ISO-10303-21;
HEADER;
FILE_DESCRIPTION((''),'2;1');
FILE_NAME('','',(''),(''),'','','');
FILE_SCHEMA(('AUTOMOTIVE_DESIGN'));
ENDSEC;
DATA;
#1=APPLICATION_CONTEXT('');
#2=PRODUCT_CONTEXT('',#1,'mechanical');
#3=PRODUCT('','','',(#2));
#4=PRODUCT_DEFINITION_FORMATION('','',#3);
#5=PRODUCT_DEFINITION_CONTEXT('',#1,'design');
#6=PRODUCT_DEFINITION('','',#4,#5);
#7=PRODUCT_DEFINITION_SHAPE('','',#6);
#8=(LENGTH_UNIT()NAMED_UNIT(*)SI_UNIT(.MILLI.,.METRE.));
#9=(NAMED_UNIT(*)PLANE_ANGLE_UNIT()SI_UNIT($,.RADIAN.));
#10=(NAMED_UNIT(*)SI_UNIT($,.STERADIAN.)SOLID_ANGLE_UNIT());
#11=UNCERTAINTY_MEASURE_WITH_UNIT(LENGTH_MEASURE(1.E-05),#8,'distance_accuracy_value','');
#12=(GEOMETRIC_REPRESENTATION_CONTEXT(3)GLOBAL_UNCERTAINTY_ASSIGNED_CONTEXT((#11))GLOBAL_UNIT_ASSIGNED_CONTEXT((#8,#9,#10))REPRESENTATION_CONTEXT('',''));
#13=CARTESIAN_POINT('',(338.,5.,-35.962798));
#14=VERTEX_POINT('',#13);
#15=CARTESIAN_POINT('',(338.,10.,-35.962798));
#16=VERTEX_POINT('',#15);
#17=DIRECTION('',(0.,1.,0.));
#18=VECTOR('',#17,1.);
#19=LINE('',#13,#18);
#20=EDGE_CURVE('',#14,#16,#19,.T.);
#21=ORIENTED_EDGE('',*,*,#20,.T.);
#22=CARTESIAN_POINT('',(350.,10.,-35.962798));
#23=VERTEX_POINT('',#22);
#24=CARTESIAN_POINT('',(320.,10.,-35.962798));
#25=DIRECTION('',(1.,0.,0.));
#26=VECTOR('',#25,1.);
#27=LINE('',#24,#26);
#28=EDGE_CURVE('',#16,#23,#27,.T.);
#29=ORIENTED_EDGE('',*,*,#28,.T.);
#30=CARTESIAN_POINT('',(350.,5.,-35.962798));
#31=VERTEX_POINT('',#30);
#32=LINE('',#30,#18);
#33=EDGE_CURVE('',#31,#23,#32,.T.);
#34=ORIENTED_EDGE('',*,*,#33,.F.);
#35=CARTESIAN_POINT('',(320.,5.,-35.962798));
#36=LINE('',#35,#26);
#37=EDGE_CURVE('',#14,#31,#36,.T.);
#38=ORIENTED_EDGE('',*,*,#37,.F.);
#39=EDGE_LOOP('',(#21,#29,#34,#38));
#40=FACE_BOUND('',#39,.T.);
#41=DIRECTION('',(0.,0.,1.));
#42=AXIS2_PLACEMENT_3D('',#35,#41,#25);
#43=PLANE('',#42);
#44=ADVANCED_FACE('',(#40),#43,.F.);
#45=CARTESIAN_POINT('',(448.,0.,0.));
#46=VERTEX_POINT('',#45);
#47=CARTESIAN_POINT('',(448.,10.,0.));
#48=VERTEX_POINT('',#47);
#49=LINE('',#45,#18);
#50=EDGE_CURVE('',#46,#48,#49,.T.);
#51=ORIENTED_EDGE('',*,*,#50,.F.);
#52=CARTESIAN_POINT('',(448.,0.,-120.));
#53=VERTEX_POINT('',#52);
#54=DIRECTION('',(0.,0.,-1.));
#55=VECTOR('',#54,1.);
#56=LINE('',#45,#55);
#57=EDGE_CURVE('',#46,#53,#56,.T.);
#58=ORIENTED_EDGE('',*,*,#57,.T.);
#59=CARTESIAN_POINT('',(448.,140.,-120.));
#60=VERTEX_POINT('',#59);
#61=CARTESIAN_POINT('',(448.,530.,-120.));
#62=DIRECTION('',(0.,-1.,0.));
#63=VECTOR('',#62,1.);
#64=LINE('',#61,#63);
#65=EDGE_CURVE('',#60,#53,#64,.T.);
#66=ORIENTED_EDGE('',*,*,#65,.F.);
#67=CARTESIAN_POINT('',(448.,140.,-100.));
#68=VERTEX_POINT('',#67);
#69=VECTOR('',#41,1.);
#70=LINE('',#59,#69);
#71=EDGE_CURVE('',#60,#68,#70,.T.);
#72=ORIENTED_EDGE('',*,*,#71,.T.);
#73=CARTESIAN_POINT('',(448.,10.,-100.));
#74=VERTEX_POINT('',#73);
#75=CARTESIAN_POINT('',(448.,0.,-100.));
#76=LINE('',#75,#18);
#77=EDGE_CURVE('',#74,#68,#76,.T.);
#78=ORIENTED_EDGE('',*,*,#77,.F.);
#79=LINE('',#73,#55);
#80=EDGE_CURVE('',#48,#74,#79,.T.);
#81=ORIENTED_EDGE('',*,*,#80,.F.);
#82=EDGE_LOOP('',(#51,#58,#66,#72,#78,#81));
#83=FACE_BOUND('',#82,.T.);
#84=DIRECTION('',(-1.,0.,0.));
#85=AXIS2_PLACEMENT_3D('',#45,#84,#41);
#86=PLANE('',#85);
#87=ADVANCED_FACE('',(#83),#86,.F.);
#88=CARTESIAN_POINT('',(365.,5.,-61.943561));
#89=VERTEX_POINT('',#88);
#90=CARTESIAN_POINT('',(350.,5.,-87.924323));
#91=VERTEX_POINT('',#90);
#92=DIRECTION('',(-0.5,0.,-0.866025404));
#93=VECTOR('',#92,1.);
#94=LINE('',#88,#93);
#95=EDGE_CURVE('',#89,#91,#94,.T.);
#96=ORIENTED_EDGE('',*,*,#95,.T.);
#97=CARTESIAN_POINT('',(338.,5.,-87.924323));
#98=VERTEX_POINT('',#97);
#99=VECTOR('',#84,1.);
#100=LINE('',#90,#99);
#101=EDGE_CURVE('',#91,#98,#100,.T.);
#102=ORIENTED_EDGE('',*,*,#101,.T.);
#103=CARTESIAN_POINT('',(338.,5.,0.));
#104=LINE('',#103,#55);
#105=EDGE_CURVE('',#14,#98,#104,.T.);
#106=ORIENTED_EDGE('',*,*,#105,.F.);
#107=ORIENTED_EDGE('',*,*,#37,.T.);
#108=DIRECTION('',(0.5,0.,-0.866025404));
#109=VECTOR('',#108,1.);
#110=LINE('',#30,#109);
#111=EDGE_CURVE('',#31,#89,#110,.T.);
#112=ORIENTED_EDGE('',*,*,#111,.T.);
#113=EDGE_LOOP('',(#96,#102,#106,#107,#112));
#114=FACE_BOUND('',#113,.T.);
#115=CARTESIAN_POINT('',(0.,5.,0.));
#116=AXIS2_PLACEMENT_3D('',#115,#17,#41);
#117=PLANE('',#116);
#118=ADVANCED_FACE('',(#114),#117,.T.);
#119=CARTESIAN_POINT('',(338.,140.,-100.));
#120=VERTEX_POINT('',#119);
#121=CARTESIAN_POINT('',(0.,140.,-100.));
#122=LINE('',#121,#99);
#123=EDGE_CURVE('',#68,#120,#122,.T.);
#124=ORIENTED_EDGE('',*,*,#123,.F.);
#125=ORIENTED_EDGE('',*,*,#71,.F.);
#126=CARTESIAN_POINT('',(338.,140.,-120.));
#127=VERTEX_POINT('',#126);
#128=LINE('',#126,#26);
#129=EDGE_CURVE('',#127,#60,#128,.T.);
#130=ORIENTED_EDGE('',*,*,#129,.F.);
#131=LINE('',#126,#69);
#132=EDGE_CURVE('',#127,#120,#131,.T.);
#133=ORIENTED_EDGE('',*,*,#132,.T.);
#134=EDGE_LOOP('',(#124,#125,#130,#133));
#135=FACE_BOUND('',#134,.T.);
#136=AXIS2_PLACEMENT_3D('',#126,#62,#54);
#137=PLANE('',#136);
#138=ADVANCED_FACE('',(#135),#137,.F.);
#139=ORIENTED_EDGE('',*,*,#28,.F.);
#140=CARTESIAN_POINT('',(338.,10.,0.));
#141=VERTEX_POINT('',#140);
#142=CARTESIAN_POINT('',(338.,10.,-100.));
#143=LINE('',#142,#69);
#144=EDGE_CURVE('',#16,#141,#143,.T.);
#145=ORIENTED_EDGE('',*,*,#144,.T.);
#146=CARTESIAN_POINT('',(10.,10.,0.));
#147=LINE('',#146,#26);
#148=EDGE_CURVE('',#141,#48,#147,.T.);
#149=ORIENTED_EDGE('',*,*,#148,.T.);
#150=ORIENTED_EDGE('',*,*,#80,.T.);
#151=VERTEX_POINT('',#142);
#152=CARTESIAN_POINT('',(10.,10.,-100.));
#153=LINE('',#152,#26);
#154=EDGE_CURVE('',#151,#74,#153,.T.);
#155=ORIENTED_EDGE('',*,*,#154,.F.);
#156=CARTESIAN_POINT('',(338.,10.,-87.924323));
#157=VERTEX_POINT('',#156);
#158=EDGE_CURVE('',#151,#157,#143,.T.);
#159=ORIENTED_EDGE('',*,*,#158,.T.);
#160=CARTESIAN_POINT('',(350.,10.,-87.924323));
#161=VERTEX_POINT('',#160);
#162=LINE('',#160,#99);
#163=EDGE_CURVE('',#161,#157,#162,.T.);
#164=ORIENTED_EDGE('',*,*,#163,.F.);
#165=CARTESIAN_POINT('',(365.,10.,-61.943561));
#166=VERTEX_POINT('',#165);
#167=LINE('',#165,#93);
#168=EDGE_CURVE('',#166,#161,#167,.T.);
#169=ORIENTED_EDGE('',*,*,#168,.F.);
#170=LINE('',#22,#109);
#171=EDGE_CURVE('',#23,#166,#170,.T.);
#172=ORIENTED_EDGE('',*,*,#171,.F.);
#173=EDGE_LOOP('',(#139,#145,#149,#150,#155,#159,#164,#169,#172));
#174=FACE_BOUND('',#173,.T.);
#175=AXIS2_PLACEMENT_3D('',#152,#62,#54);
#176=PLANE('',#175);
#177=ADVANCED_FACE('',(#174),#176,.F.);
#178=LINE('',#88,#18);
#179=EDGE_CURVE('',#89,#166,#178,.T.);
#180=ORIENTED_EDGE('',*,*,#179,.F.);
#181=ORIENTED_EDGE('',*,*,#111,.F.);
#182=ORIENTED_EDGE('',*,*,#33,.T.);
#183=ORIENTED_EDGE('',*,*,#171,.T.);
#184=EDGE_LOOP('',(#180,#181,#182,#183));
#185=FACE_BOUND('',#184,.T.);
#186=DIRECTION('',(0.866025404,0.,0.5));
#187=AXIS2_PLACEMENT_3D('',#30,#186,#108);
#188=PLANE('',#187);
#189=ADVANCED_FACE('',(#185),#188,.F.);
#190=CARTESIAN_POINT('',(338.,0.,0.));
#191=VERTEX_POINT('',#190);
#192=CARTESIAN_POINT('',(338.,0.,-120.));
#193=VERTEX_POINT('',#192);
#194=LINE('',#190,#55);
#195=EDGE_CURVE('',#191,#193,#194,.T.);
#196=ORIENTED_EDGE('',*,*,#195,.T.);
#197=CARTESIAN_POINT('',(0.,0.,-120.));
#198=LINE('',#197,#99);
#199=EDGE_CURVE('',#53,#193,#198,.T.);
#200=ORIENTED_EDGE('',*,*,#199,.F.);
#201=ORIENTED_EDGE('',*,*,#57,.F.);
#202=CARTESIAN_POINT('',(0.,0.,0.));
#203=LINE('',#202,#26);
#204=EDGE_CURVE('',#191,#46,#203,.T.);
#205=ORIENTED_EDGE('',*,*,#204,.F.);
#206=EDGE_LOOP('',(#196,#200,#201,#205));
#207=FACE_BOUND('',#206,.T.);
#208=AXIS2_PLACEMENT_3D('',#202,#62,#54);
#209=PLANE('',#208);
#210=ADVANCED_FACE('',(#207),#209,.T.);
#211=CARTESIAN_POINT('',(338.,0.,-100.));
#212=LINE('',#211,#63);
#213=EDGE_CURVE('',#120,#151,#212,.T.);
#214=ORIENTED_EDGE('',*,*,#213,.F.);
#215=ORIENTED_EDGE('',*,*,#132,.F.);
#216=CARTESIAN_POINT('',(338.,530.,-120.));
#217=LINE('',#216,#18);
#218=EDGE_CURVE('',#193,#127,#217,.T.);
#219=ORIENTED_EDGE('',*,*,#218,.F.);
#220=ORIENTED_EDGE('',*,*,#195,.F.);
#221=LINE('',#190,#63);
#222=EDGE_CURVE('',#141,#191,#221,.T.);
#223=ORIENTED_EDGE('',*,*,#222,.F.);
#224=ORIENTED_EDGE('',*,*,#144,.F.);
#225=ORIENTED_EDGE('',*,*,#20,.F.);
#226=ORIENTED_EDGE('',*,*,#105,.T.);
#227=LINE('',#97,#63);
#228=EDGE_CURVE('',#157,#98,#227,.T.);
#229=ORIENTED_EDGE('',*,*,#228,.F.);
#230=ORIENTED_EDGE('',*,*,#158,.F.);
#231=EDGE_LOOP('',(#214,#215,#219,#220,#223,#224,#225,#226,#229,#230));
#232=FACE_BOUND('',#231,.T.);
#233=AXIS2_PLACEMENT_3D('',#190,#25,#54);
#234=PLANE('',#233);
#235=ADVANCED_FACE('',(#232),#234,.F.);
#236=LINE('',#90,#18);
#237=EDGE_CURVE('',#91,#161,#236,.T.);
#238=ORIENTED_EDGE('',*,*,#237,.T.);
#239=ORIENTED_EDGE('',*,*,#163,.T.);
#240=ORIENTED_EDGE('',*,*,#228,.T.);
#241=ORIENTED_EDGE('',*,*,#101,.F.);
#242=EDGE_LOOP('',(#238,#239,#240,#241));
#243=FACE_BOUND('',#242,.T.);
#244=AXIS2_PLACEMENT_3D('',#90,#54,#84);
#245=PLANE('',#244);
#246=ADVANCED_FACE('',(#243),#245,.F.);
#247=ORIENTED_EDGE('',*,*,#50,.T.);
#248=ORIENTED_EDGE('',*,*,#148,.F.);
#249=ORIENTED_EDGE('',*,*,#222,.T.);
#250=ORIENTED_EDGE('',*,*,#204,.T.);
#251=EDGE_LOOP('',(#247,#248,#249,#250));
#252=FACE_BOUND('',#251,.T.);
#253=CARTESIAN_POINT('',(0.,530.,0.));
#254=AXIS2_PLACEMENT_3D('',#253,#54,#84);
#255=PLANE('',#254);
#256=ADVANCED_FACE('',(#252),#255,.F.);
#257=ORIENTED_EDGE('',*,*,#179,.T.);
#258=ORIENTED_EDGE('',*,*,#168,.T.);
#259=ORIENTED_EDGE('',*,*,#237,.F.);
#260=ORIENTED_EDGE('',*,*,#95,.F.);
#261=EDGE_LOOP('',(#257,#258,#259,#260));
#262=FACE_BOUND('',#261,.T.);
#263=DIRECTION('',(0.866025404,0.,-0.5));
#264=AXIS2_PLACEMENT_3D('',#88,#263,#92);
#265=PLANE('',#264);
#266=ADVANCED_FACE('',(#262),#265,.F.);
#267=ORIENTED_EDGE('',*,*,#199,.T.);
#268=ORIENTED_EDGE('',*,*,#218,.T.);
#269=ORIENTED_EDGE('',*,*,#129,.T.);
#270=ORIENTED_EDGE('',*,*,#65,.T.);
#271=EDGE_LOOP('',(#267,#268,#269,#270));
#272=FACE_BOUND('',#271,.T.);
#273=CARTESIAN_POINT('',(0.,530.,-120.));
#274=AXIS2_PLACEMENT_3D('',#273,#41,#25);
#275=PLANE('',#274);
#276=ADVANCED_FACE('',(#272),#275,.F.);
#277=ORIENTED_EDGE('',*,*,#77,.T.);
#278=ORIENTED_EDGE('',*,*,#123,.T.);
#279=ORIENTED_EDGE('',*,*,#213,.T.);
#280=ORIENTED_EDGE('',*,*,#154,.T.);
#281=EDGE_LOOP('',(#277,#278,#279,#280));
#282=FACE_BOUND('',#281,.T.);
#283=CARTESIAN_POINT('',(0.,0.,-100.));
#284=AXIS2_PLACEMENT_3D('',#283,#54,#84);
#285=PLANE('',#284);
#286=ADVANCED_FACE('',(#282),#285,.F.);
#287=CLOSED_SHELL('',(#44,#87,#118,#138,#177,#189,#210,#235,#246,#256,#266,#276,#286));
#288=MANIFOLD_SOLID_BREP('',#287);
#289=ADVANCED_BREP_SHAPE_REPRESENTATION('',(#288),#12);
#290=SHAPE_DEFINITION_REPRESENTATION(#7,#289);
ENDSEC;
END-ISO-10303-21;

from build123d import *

# Parameters (mm, degrees)
SKETCH1_W                      = 670
SKETCH1_H                      = 120
BOSS_EXTRUDE1_DEPTH            = 530
SKETCH2_W                      = 100
SKETCH2_H                      = 200
SKETCH2_W_2                    = 650
SKETCH2_H_2                    = 250
CUT_EXTRUDE1_DEPTH             = 100
SKETCH3_R                      = 50
CUT_EXTRUDE2_DEPTH             = 260
F_12_0_12_DIAMETER_HOLE2_D     = 12
F_12_0_12_DIAMETER_HOLE2_DEPTH = 30
F_12_0_12_DIAMETER_HOLE2_TIP   = 3.605163714
SKETCH8_W                      = 650
SKETCH8_H                      = 50
BOSS_EXTRUDE2_DEPTH            = 5
SKETCH9_W                      = 10
SKETCH9_H                      = 250
CUT_EXTRUDE3_DEPTH             = 717
CUT_EXTRUDE4_DEPTH             = 5
SKETCH11_W                     = 10
SKETCH11_H                     = 100
BOSS_EXTRUDE3_DEPTH            = 78
BOSS_EXTRUDE3_2_DEPTH          = 78
BOSS_EXTRUDE3_3_DEPTH          = 78
SKETCH12_W                     = 20
SKETCH12_H                     = 30
CUT_EXTRUDE5_DEPTH             = 80
SKETCH15_W                     = 30
SKETCH15_H                     = 23.536156656
SKETCH15_H_2                   = 28.986603691
CUT_EXTRUDE7_DEPTH             = 35
SHELL1_T                       = -3
SKETCH16_W                     = 14
SKETCH16_H                     = 14
CUT_EXTRUDE8_DEPTH             = 35
SKETCH17_W                     = 5.729882812
SKETCH17_H                     = 17.428393554
SKETCH17_W_2                   = 13.369726562
SKETCH17_H_2                   = 3.342431641
BOSS_EXTRUDE4_DEPTH            = 5
CUT_EXTRUDE10_DEPTH            = 863.670273187
CUT_EXTRUDE10_DEPTH_BACK       = 863.670273187
SKETCH18_W                     = 670
SKETCH18_H                     = 250
CUT_EXTRUDE11_DEPTH            = 737.002717386
CUT_EXTRUDE11_DEPTH_BACK       = 737.002717386
SKETCH19_W                     = 222
SKETCH19_H                     = 280
SKETCH19_W_2                   = 338
CUT_EXTRUDE12_DEPTH            = 538.683922021
CUT_EXTRUDE12_DEPTH_BACK       = 538.683922021
SKETCH20_W                     = 110
SKETCH20_H                     = 140


with BuildPart() as part:
    # Sketch1 → Boss-Extrude1 (new body)
    with BuildSketch(Plane(origin=(0, 0, 0), x_dir=(1, 0, 0), z_dir=(0, 1, 0))):
        with Locations((335, 60)):
            Rectangle(SKETCH1_W, SKETCH1_H)
    extrude(amount=BOSS_EXTRUDE1_DEPTH)

    # Sketch2 → Cut-Extrude1 (cut)
    with BuildSketch(Plane.XY):
        with Locations((60, 380)):
            Rectangle(SKETCH2_W, SKETCH2_H)
        with Locations((170, 380)):
            Rectangle(SKETCH2_W, SKETCH2_H)
        with Locations((280, 380)):
            Rectangle(SKETCH2_W, SKETCH2_H)
        with Locations((390, 380)):
            Rectangle(SKETCH2_W, SKETCH2_H)
        with Locations((500, 380)):
            Rectangle(SKETCH2_W, SKETCH2_H)
        with Locations((610, 380)):
            Rectangle(SKETCH2_W, SKETCH2_H)
        with Locations((335, 135)):
            Rectangle(SKETCH2_W_2, SKETCH2_H_2)
    extrude(amount=-CUT_EXTRUDE1_DEPTH, mode=Mode.SUBTRACT)

    # Sketch3 → Cut-Extrude2 (cut)
    with BuildSketch(Plane(origin=(0, 530, 0), x_dir=(1, 0, 0), z_dir=(0, 1, 0))):
        with Locations((60, 60)):
            Circle(SKETCH3_R)
        with Locations((170, 60)):
            Circle(SKETCH3_R)
        with Locations((280, 60)):
            Circle(SKETCH3_R)
        with Locations((390, 60)):
            Circle(SKETCH3_R)
        with Locations((500, 60)):
            Circle(SKETCH3_R)
        with Locations((610, 60)):
            Circle(SKETCH3_R)
    extrude(amount=-CUT_EXTRUDE2_DEPTH, mode=Mode.SUBTRACT)

    # Ø12.0 (12) Diameter Hole2
    with Locations(Plane(origin=(59.704642413, 270, -102.411697903), x_dir=(0, 0, 1), z_dir=(0, 1, 0))):
        with Locations((0, 0), (-0.195888006, 111.8520513), (0.014838595, 221.167624818), (-0.341843303, 331.364008353), (0.657723149, 441.008646429), (1.288998006, 549.811854685)):
            Hole(F_12_0_12_DIAMETER_HOLE2_D / 2, depth=F_12_0_12_DIAMETER_HOLE2_DEPTH)
            with Locations((0, 0, -(F_12_0_12_DIAMETER_HOLE2_DEPTH + F_12_0_12_DIAMETER_HOLE2_TIP / 2))):  # 118° drill point
                Cone(0, F_12_0_12_DIAMETER_HOLE2_D / 2, F_12_0_12_DIAMETER_HOLE2_TIP, mode=Mode.SUBTRACT)

    # Sketch8 → Boss-Extrude2 (add)
    with BuildSketch(Plane.XY):
        with Locations((335, 305)):
            Rectangle(SKETCH8_W, SKETCH8_H)
    extrude(amount=-BOSS_EXTRUDE2_DEPTH)

    # Sketch9 → Cut-Extrude3 (cut)
    with BuildSketch(Plane(origin=(670, 0, 0), x_dir=(0, 0, -1), z_dir=(1, 0, 0))):
        with Locations((15, 135)):
            Rectangle(SKETCH9_W, SKETCH9_H)
    extrude(amount=-CUT_EXTRUDE3_DEPTH, mode=Mode.SUBTRACT)

    # Sketch10 → Cut-Extrude4 (cut)
    with BuildSketch(Plane(origin=(0, 10, 0), x_dir=(1, 0, 0), z_dir=(0, 1, 0))):
        Polygon((365, 61.943560596), (350, 87.924322709), (320, 87.924322709), (305, 61.943560596), (320, 35.962798482), (350, 35.962798482), align=None)
    extrude(amount=-CUT_EXTRUDE4_DEPTH, mode=Mode.SUBTRACT)

    # Sketch12 → Cut-Extrude5 (cut)
    with BuildSketch(Plane.XY.offset(-100)):
        with Locations((85.198613037, 245)):
            Rectangle(SKETCH12_W, SKETCH12_H)
        with Locations((195.198613037, 245)):
            Rectangle(SKETCH12_W, SKETCH12_H)
        with Locations((305.198613037, 245)):
            Rectangle(SKETCH12_W, SKETCH12_H)
        with Locations((415.198613037, 245)):
            Rectangle(SKETCH12_W, SKETCH12_H)
        with Locations((525.198613037, 245)):
            Rectangle(SKETCH12_W, SKETCH12_H)
        with Locations((635.198613037, 245)):
            Rectangle(SKETCH12_W, SKETCH12_H)
    extrude(amount=-CUT_EXTRUDE5_DEPTH, mode=Mode.SUBTRACT)

    # Sketch17 → Boss-Extrude4 (add)
    # profile 1 of 9: a face of its own
    with BuildSketch(Plane.XY):
        with BuildLine():
            Line((527.508830928, 289.835452458), (527.508830928, 307.263846012))
            Line((527.508830928, 307.263846012), (534.861434459, 307.263846012))
            add(Edge.make_bspline(
                [(534.861434459, 307.263846012), (535.181337774, 307.258256848), (535.803061116, 307.24739446), (536.703508491, 307.139069344), (537.544992916, 306.975202489), (538.325061607, 306.737496792), (539.040841948, 306.426020155), (539.698044515, 306.051894954), (540.290333057, 305.605079277), (540.822348212, 305.090232636), (541.284521701, 304.502523111), (541.692171296, 303.852565801), (542.030284458, 303.129762281), (542.309377095, 302.341316546), (542.5243908, 301.484161689), (542.679660381, 300.560045938), (542.773357357, 299.567500804), (542.783368073, 298.883107022), (542.788518428, 298.530997273)],
                knots=[0, 0, 0, 0, 1.135059408, 2.20595691, 3.214417064, 4.174978569, 5.094187092, 5.980001006, 6.853065862, 7.720814779, 8.600404634, 9.50058483, 10.438414914, 11.426825708, 12.465239141, 13.571113463, 14.750376389, 16, 16, 16, 16], degree=3))
            add(Edge.make_bspline(
                [(542.788518428, 298.530997273), (542.781740751, 298.180151665), (542.768592871, 297.499553336), (542.676885992, 296.511518461), (542.516733301, 295.591080531), (542.296748778, 294.736450427), (542.003051046, 293.953120444), (541.654236167, 293.233205539), (541.233025793, 292.585291498), (540.753136904, 292.000029304), (540.204772188, 291.484681411), (539.587651059, 291.044279297), (538.910779309, 290.668464036), (538.169670382, 290.361903209), (537.364073889, 290.124869172), (536.495133477, 289.954199984), (535.562644449, 289.853487388), (534.920131033, 289.841584621), (534.58911581, 289.835452458)],
                knots=[0, 0, 0, 0, 1.228418252, 2.382983832, 3.470276728, 4.496757894, 5.468023682, 6.394867725, 7.292157164, 8.167372942, 9.039072913, 9.918728341, 10.815246345, 11.744296628, 12.720973084, 13.750736166, 14.841206188, 16, 16, 16, 16], degree=3))
            Line((534.58911581, 289.835452458), (527.508830928, 289.835452458))
        make_face()
        with BuildLine():
            Line((533.238713741, 291.745413395), (534.048208904, 291.745413395))
            add(Edge.make_bspline(
                [(534.048208904, 291.745413395), (534.172894012, 291.749291978), (534.413033311, 291.756761998), (534.758676231, 291.825976613), (535.075745017, 291.938271137), (535.365749176, 292.094802589), (535.623404602, 292.300450923), (535.848862806, 292.551404902), (536.04776914, 292.844737637), (536.217685755, 293.190205032), (536.364284647, 293.596533622), (536.481764702, 294.076367921), (536.592118304, 294.630928744), (536.673672739, 295.265507643), (536.740044562, 295.978448886), (536.788346679, 296.768428292), (536.812018936, 297.636801208), (536.817188964, 298.241258393), (536.819890499, 298.55711002)],
                knots=[0, 0, 0, 0, 0.728710832, 1.403472396, 2.052289494, 2.690292559, 3.321919393, 3.970736491, 4.656696891, 5.388631723, 6.217040872, 7.17856157, 8.275589967, 9.523440737, 10.918935818, 12.463926104, 14.152268318, 16, 16, 16, 16], degree=3))
            add(Edge.make_bspline(
                [(536.819890499, 298.55711002), (536.8171426, 298.871715251), (536.811863063, 299.476166083), (536.7886758, 300.343334385), (536.739579947, 301.133216935), (536.674703848, 301.843934916), (536.589660404, 302.476324031), (536.488366458, 303.031681737), (536.362441588, 303.507627045), (536.222158727, 303.914921549), (536.050140993, 304.256514038), (535.858357073, 304.554097881), (535.62547107, 304.79746827), (535.36991257, 305.004888479), (535.079348843, 305.160875844), (534.761320266, 305.273944358), (534.414185903, 305.34216807), (534.172870641, 305.349893944), (534.048208904, 305.353885075)],
                knots=[0, 0, 0, 0, 1.842836665, 3.540640921, 5.080358154, 6.47765669, 7.719902824, 8.816971715, 9.781579111, 10.601733135, 11.334613876, 12.017393917, 12.666641099, 13.29908421, 13.937911793, 14.587567384, 15.270347425, 16, 16, 16, 16], degree=3))
            Line((534.048208904, 305.353885075), (533.238713741, 305.353885075))
            Line((533.238713741, 305.353885075), (533.238713741, 291.745413395))
        make_face(mode=Mode.SUBTRACT)
    # profile 2 of 9: a face of its own
    with BuildSketch(Plane.XY):
        with Locations((547.563420772, 298.549649235)):
            Rectangle(SKETCH17_W, SKETCH17_H)
    # profile 3 of 9: a face of its own
    with BuildSketch(Plane.XY):
        Polygon((564.514324092, 307.263846012), (564.514324092, 305.115139958), (558.545696163, 305.115139958), (558.545696163, 299.862747379), (563.559343624, 299.862747379), (563.559343624, 297.714041325), (558.545696163, 297.714041325), (558.545696163, 289.835452458), (552.81581335, 289.835452458), (552.81581335, 307.263846012), align=None)
    # profile 4 of 9: a face of its own
    with BuildSketch(Plane.XY):
        Polygon((577.645305538, 307.263846012), (577.645305538, 305.115139958), (571.676677608, 305.115139958), (571.676677608, 299.862747379), (576.690325069, 299.862747379), (576.690325069, 297.714041325), (571.676677608, 297.714041325), (571.676677608, 289.835452458), (565.946794795, 289.835452458), (565.946794795, 307.263846012), align=None)
    # profile 5 of 9: a face of its own
    with BuildSketch(Plane.XY):
        with Locations((584.330168819, 287.448001286)):
            Rectangle(SKETCH17_W_2, SKETCH17_H_2)
    # profile 6 of 9: a face of its own
    with BuildSketch(Plane.XY):
        with BuildLine():
            Line((605.578484249, 307.263846012), (605.578484249, 295.602639195))
            add(Edge.make_bspline(
                [(605.578484249, 295.602639195), (605.574209777, 295.35989389), (605.565919345, 294.889083964), (605.480877158, 294.20653885), (605.349958188, 293.569747554), (605.15926554, 292.978838165), (604.911867049, 292.436847071), (604.616163877, 291.936663973), (604.260702644, 291.487723021), (603.847299908, 291.08966617), (603.386881991, 290.731670113), (602.867295001, 290.425440037), (602.293741958, 290.168488385), (601.66690529, 289.960990771), (600.988052682, 289.797299786), (600.254912883, 289.679078851), (599.467035781, 289.60781007), (598.923618241, 289.60048219), (598.643684673, 289.59670734)],
                knots=[0, 0, 0, 0, 1.108173197, 2.149326602, 3.136215123, 4.073726706, 4.978516626, 5.852185058, 6.72141202, 7.584905625, 8.467554395, 9.379216169, 10.332422268, 11.332766067, 12.390653242, 13.518530507, 14.721707419, 16, 16, 16, 16], degree=3))
            add(Edge.make_bspline(
                [(598.643684673, 289.59670734), (598.373688491, 289.600411437), (597.851346557, 289.607577482), (597.093280473, 289.679448684), (596.387523889, 289.797736542), (595.733050135, 289.960122315), (595.130189942, 290.169220301), (594.579048171, 290.42623041), (594.078350789, 290.732835498), (593.633858028, 291.090104794), (593.234289459, 291.486851767), (592.899913678, 291.940746827), (592.609043638, 292.435866034), (592.375223767, 292.980322997), (592.191754821, 293.570441519), (592.063541006, 294.20666921), (591.983676196, 294.889343196), (591.974661767, 295.359932437), (591.970012569, 295.602639195)],
                knots=[0, 0, 0, 0, 1.258901956, 2.435505865, 3.547148904, 4.59359074, 5.576649289, 6.5183682, 7.424469602, 8.307507093, 9.172751023, 10.042627298, 10.928839176, 11.845659241, 12.799442865, 13.80597989, 14.868432463, 16, 16, 16, 16], degree=3))
            Line((591.970012569, 295.602639195), (591.970012569, 307.263846012))
            Line((591.970012569, 307.263846012), (597.699895381, 307.263846012))
            Line((597.699895381, 307.263846012), (597.699895381, 295.457153889))
            add(Edge.make_bspline(
                [(597.699895381, 295.457153889), (597.700816195, 295.287996189), (597.702584578, 294.963135903), (597.729908723, 294.499051493), (597.768241004, 294.079064133), (597.828226169, 293.705517832), (597.90066041, 293.377063412), (597.989882091, 293.09281535), (598.094998068, 292.852496478), (598.225239063, 292.654232043), (598.380826623, 292.495135011), (598.55368342, 292.353231761), (598.757556996, 292.238543846), (598.987648905, 292.146224908), (599.243380948, 292.070549638), (599.526120553, 292.020376099), (599.83553351, 291.990763905), (600.049971942, 291.986424568), (600.161954402, 291.984158512)],
                knots=[0, 0, 0, 0, 1.622370975, 3.115695595, 4.458049099, 5.666011203, 6.742434742, 7.681714947, 8.519814998, 9.250928664, 9.942747364, 10.646898194, 11.389596108, 12.175933929, 13.021386247, 13.943159715, 14.925891993, 16, 16, 16, 16], degree=3))
            add(Edge.make_bspline(
                [(600.161954402, 291.984158512), (600.283927219, 291.987190593), (600.521124756, 291.993087005), (600.86597014, 292.03390861), (601.187714881, 292.103380086), (601.484890424, 292.205377303), (601.758665297, 292.332852529), (602.012761516, 292.484567923), (602.236391413, 292.674631152), (602.439076761, 292.888441291), (602.620738276, 293.128529789), (602.771757722, 293.399928575), (602.905501548, 293.697121508), (603.005823683, 294.025060118), (603.089837826, 294.379999499), (603.146989706, 294.763086929), (603.186210275, 295.174074524), (603.189394751, 295.457053988), (603.191033077, 295.602639195)],
                knots=[0, 0, 0, 0, 1.083870311, 2.107775948, 3.08105344, 4.003637981, 4.893545291, 5.761570557, 6.624657808, 7.49233129, 8.376387281, 9.291996285, 10.246843261, 11.267344133, 12.334180325, 13.486053461, 14.706643157, 16, 16, 16, 16], degree=3))
            Line((603.191033077, 295.602639195), (603.191033077, 307.263846012))
            Line((603.191033077, 307.263846012), (605.578484249, 307.263846012))
        make_face()
    # profile 7 of 9: a face of its own
    with BuildSketch(Plane.XY):
        with BuildLine():
            Line((619.731593227, 302.015183827), (616.739818477, 301.526502415))
            add(Edge.make_bspline(
                [(616.739818477, 301.526502415), (616.748849224, 301.670726223), (616.765660669, 301.939210177), (616.78429066, 302.312269209), (616.796668381, 302.625642376), (616.798628236, 302.814722915), (616.799504756, 302.899286839)],
                knots=[0, 0, 0, 0, 1.261802504, 2.348944521, 3.261585937, 4, 4, 4, 4], degree=3))
            add(Edge.make_bspline(
                [(616.799504756, 302.899286839), (616.798306068, 303.007660677), (616.795968139, 303.219033721), (616.750451916, 303.523894877), (616.694806916, 303.811547356), (616.604352699, 304.076787391), (616.488181329, 304.320314265), (616.348943917, 304.543955606), (616.184187178, 304.745078709), (615.995833421, 304.928129987), (615.778009957, 305.083200131), (615.536269472, 305.218702836), (615.269765326, 305.333844758), (614.978065514, 305.431346685), (614.660683072, 305.504624438), (614.319025281, 305.556776695), (613.952471696, 305.585673441), (613.699597795, 305.590260771), (613.568984889, 305.592630192)],
                knots=[0, 0, 0, 0, 1.079280541, 2.105035848, 3.067950317, 3.99715044, 4.889989748, 5.753421302, 6.617030865, 7.476358039, 8.364190572, 9.274590025, 10.235106994, 11.254473582, 12.337095886, 13.478601727, 14.697662529, 16, 16, 16, 16], degree=3))
            add(Edge.make_bspline(
                [(613.568984889, 305.592630192), (613.391954632, 305.58912286), (613.059112606, 305.582528579), (612.595688488, 305.495339748), (612.198743126, 305.361419257), (611.87165349, 305.163811893), (611.613188167, 304.909795747), (611.433841092, 304.593316589), (611.323009072, 304.224665915), (611.313400221, 303.959558324), (611.308367061, 303.820693775)],
                knots=[0, 0, 0, 0, 1.294917039, 2.43462794, 3.440028966, 4.347597256, 5.210608309, 6.06356377, 6.985685997, 8, 8, 8, 8], degree=3))
            add(Edge.make_bspline(
                [(611.308367061, 303.820693775), (611.317562032, 303.705133219), (611.336106628, 303.472068433), (611.47315858, 303.132808312), (611.695999602, 302.811560885), (612.009295906, 302.510664216), (612.404107796, 302.221967273), (612.884407504, 301.948533431), (613.450813789, 301.688189695), (613.862519081, 301.536023727), (614.080048656, 301.455624958)],
                knots=[0, 0, 0, 0, 0.716839541, 1.445735977, 2.240793036, 3.131329288, 4.131129903, 5.273471266, 6.559404876, 8, 8, 8, 8], degree=3))
            add(Edge.make_bspline(
                [(614.080048656, 301.455624958), (614.335934702, 301.364918412), (614.834564244, 301.188164095), (615.547657928, 300.88707802), (616.213068388, 300.5749594), (616.829579094, 300.246613346), (617.397833174, 299.90520698), (617.914851624, 299.544556457), (618.386199073, 299.173962102), (618.807001026, 298.783874588), (619.177995113, 298.378100064), (619.4958685, 297.952745357), (619.771807525, 297.51723103), (619.991113975, 297.061458502), (620.169645242, 296.594624218), (620.292698657, 296.11024444), (620.364288243, 295.609761088), (620.37516617, 295.270864226), (620.380681514, 295.099036213)],
                knots=[0, 0, 0, 0, 1.359488612, 2.649152603, 3.874964776, 5.039588756, 6.146130126, 7.193090393, 8.194917302, 9.146793662, 10.063845301, 10.944476293, 11.803344532, 12.641736646, 13.473440096, 14.302714936, 15.139439897, 16, 16, 16, 16], degree=3))
            add(Edge.make_bspline(
                [(620.380681514, 295.099036213), (620.374476075, 294.902306495), (620.362285176, 294.515820995), (620.280160209, 293.948630617), (620.138011896, 293.409496554), (619.938489338, 292.895972278), (619.681049879, 292.411946655), (619.366518754, 291.954381076), (618.996510229, 291.525099427), (618.5710008, 291.128381035), (618.102222518, 290.765302239), (617.587803957, 290.450854345), (617.034458515, 290.187092261), (616.444107988, 289.968993032), (615.81453624, 289.801373099), (615.145337453, 289.685291013), (614.438790193, 289.606619894), (613.954683001, 289.600062276), (613.70700941, 289.59670734)],
                knots=[0, 0, 0, 0, 0.972121714, 1.909782367, 2.824924061, 3.721832975, 4.62620438, 5.527836938, 6.46026819, 7.421000932, 8.398101015, 9.385579713, 10.394244048, 11.422703992, 12.491421888, 13.608778581, 14.776629625, 16, 16, 16, 16], degree=3))
            add(Edge.make_bspline(
                [(613.70700941, 289.59670734), (613.445745367, 289.599650312), (612.939893069, 289.605348413), (612.207608113, 289.66709241), (611.525297432, 289.760984454), (610.893395078, 289.899706116), (610.309273131, 290.072394336), (609.776099392, 290.288320955), (609.295310255, 290.547303481), (608.863217672, 290.843007892), (608.478306623, 291.175775461), (608.148120946, 291.551766865), (607.86942369, 291.967163224), (607.639947144, 292.421521488), (607.466477665, 292.917583541), (607.339164663, 293.449829748), (607.264537999, 294.021332449), (607.254747521, 294.414908557), (607.249700069, 294.617815586)],
                knots=[0, 0, 0, 0, 1.342201143, 2.598733168, 3.773451092, 4.878874364, 5.91991243, 6.900006476, 7.829142054, 8.72062616, 9.585588575, 10.436728592, 11.283829734, 12.149664931, 13.044964919, 13.977937424, 14.957531465, 16, 16, 16, 16], degree=3))
            add(Edge.make_bspline(
                [(607.249700069, 294.617815586), (607.250803815, 294.692425759), (607.253213998, 294.855347393), (607.260452266, 295.122772538), (607.275636683, 295.433682216), (607.29037174, 295.656130545), (607.298195171, 295.774237248)],
                knots=[0, 0, 0, 0, 0.773500207, 1.689044709, 2.77302154, 4, 4, 4, 4], degree=3))
            Line((607.298195171, 295.774237248), (610.36457777, 296.337526509))
            add(Edge.make_bspline(
                [(610.36457777, 296.337526509), (610.326952988, 296.136337493), (610.255606535, 295.754830366), (610.178678473, 295.21219969), (610.124206629, 294.733311493), (610.11767002, 294.435147371), (610.114641475, 294.297001835)],
                knots=[0, 0, 0, 0, 1.192988372, 2.262218769, 3.194850416, 4, 4, 4, 4], degree=3))
            add(Edge.make_bspline(
                [(610.114641475, 294.297001835), (610.116191817, 294.183708768), (610.119182568, 293.965156219), (610.159053378, 293.648552813), (610.215988606, 293.352999663), (610.302906772, 293.079707227), (610.411206928, 292.826307836), (610.544682453, 292.59538211), (610.704385489, 292.386485019), (610.887496571, 292.200099922), (611.094689168, 292.033628705), (611.327456494, 291.892756696), (611.58347653, 291.771733922), (611.864681562, 291.677479524), (612.167961721, 291.596080628), (612.497219749, 291.548235723), (612.849461228, 291.512043782), (613.092629543, 291.508500084), (613.218327999, 291.506668278)],
                knots=[0, 0, 0, 0, 1.135776692, 2.191015738, 3.19649269, 4.151244236, 5.061952528, 5.956281389, 6.819534407, 7.692823504, 8.571441916, 9.478554956, 10.416037156, 11.406231466, 12.450054172, 13.561596327, 14.739541482, 16, 16, 16, 16], degree=3))
            add(Edge.make_bspline(
                [(613.218327999, 291.506668278), (613.423996012, 291.510791273), (613.810619321, 291.518541853), (614.349272542, 291.616708407), (614.810575885, 291.768742445), (615.189785268, 291.991387532), (615.490778961, 292.278756613), (615.698005174, 292.637320004), (615.824813318, 293.05638326), (615.837728413, 293.355975238), (615.844524288, 293.513619419)],
                knots=[0, 0, 0, 0, 1.308765556, 2.460272085, 3.475015317, 4.388076298, 5.239673503, 6.095681635, 6.997954785, 8, 8, 8, 8], degree=3))
            add(Edge.make_bspline(
                [(615.844524288, 293.513619419), (615.833808824, 293.638242951), (615.811807312, 293.894126055), (615.644884004, 294.264515838), (615.382382362, 294.620631473), (615.016807277, 294.962984909), (614.551376589, 295.293471235), (613.986957743, 295.616730224), (613.322148235, 295.933112033), (612.83677959, 296.119639164), (612.580430889, 296.21815395)],
                knots=[0, 0, 0, 0, 0.667930748, 1.371427933, 2.146459016, 3.034714139, 4.04893387, 5.207327294, 6.525042705, 8, 8, 8, 8], degree=3))
            add(Edge.make_bspline(
                [(612.580430889, 296.21815395), (612.374354345, 296.29679374), (611.970646869, 296.450850434), (611.394079385, 296.713586304), (610.853066711, 296.987016804), (610.357486361, 297.288235735), (609.896382561, 297.599610528), (609.477036946, 297.932256792), (609.09841673, 298.284556341), (608.758710772, 298.653375077), (608.457302107, 299.038989264), (608.199448649, 299.444659231), (607.977533299, 299.866789834), (607.798609588, 300.308107488), (607.65975715, 300.767821241), (607.559616231, 301.244439392), (607.497905054, 301.739995674), (607.491630423, 302.075933546), (607.488445186, 302.246468159)],
                knots=[0, 0, 0, 0, 1.249558333, 2.447906163, 3.58867143, 4.682264114, 5.731748367, 6.739728761, 7.711906036, 8.659384707, 9.578321416, 10.481344598, 11.379544271, 12.277135726, 13.175418307, 14.097160112, 15.034047388, 16, 16, 16, 16], degree=3))
            add(Edge.make_bspline(
                [(607.488445186, 302.246468159), (607.49282555, 302.439538736), (607.501402184, 302.817565692), (607.587451154, 303.36980586), (607.719291893, 303.894921371), (607.910558542, 304.389343064), (608.156192894, 304.852853762), (608.453187669, 305.288766511), (608.804241719, 305.697593471), (609.213503754, 306.066686531), (609.657214714, 306.407618241), (610.14376173, 306.697651931), (610.658716537, 306.950861947), (611.210636666, 307.148827868), (611.791820619, 307.313252612), (612.408080529, 307.421140415), (613.056315391, 307.490701612), (613.499160755, 307.498567824), (613.725661373, 307.502591129)],
                knots=[0, 0, 0, 0, 1.01033566, 1.978209831, 2.919499157, 3.840961976, 4.746855014, 5.660740114, 6.597989116, 7.56120833, 8.541877795, 9.523498025, 10.522416858, 11.542172371, 12.589598349, 13.681636521, 14.814234488, 16, 16, 16, 16], degree=3))
            add(Edge.make_bspline(
                [(613.725661373, 307.502591129), (613.968269855, 307.498219033), (614.438190994, 307.489750488), (615.120391152, 307.426787419), (615.755073228, 307.319142339), (616.345153155, 307.171557286), (616.887304575, 306.977590666), (617.384933999, 306.742393454), (617.834452216, 306.46201507), (618.236961315, 306.139451502), (618.593086714, 305.773322851), (618.897467704, 305.361641069), (619.158701245, 304.909408454), (619.366684143, 304.412232174), (619.529870326, 303.873247147), (619.649133834, 303.29158184), (619.720420497, 302.667301443), (619.72779778, 302.236712324), (619.731593227, 302.015183827)],
                knots=[0, 0, 0, 0, 1.248314423, 2.417925914, 3.521398822, 4.558068205, 5.543720209, 6.479599284, 7.385061127, 8.263440163, 9.127722873, 10.00561236, 10.891325273, 11.808802823, 12.772251995, 13.784947978, 14.860405143, 16, 16, 16, 16], degree=3))
        make_face()
    # profile 8 of 9: a face of its own
    with BuildSketch(Plane.XY):
        Polygon((633.989153194, 307.263846012), (633.989153194, 305.115139958), (628.020525264, 305.115139958), (628.020525264, 300.340237614), (633.034172725, 300.340237614), (633.034172725, 298.191531559), (628.020525264, 298.191531559), (628.020525264, 291.984158512), (634.944133663, 291.984158512), (634.944133663, 289.835452458), (622.290642452, 289.835452458), (622.290642452, 307.263846012), align=None)
    # profile 9 of 9: a face of its own
    with BuildSketch(Plane.XY):
        with BuildLine():
            Line((636.376604366, 289.835452458), (636.376604366, 307.263846012))
            Line((636.376604366, 307.263846012), (643.990335369, 307.263846012))
            add(Edge.make_bspline(
                [(643.990335369, 307.263846012), (644.237946498, 307.261150834), (644.721600887, 307.25588639), (645.426490561, 307.189203683), (646.094808274, 307.090496236), (646.724915796, 306.949857504), (647.317873659, 306.767252686), (647.871119087, 306.542146), (648.390701058, 306.282329135), (648.864494846, 305.976472528), (649.295093616, 305.642889252), (649.669668547, 305.279483604), (649.990389523, 304.894749072), (650.250664962, 304.483256345), (650.454275633, 304.048690948), (650.59581384, 303.587791605), (650.684089268, 303.104102537), (650.695510601, 302.772834174), (650.701311397, 302.604585835)],
                knots=[0, 0, 0, 0, 1.303269877, 2.545653735, 3.724355284, 4.8584284, 5.941462088, 6.987020715, 8.000098032, 8.995332524, 9.951400474, 10.863507538, 11.737823931, 12.582415999, 13.420128714, 14.25671499, 15.114600608, 16, 16, 16, 16], degree=3))
            add(Edge.make_bspline(
                [(650.701311397, 302.604585835), (650.698282873, 302.472674957), (650.692382063, 302.215658276), (650.651041486, 301.838684287), (650.580643818, 301.480313933), (650.481036683, 301.139915259), (650.347814833, 300.820175594), (650.191279492, 300.517863507), (650.009772227, 300.230553342), (649.788675198, 299.970497982), (649.548268341, 299.722842359), (649.274558803, 299.497116911), (648.974487035, 299.288655528), (648.642526299, 299.104010513), (648.287619671, 298.928055749), (647.899038177, 298.784921972), (647.486819978, 298.644749395), (647.19793098, 298.577036306), (647.049257183, 298.54218845)],
                knots=[0, 0, 0, 0, 1.057156483, 2.059775939, 3.035078039, 3.981068617, 4.897189472, 5.80650904, 6.70770952, 7.613691521, 8.536886357, 9.470937334, 10.45233069, 11.461024139, 12.51295332, 13.623444893, 14.776929983, 16, 16, 16, 16], degree=3))
            add(Edge.make_bspline(
                [(647.049257183, 298.54218845), (647.19164695, 298.499279419), (647.467865022, 298.416041346), (647.856360945, 298.265600017), (648.211652989, 298.111536308), (648.524185739, 297.936781388), (648.807636894, 297.762122504), (649.047122259, 297.564301324), (649.255235567, 297.361673563), (649.425188343, 297.135464734), (649.570253643, 296.882344437), (649.694827156, 296.586596707), (649.815179167, 296.247423665), (649.917667348, 295.859098311), (650.004750555, 295.423699276), (650.088222437, 294.944027189), (650.153853601, 294.416024546), (650.187587341, 294.048412906), (650.2051692, 293.856815525)],
                knots=[0, 0, 0, 0, 1.149282524, 2.229462177, 3.219229774, 4.139917433, 4.995948464, 5.788695735, 6.536448429, 7.236319808, 7.968460079, 8.78645307, 9.713791991, 10.749194692, 11.887975363, 13.146018663, 14.512518948, 16, 16, 16, 16], degree=3))
            add(Edge.make_bspline(
                [(650.2051692, 293.856815525), (650.225980287, 293.627849833), (650.265975604, 293.187817268), (650.348933081, 292.554613589), (650.44386163, 291.974357025), (650.555874504, 291.44528724), (650.681301216, 290.967898855), (650.821280597, 290.540469593), (650.979920039, 290.165788217), (651.10484481, 289.941461656), (651.163880062, 289.835452458)],
                knots=[0, 0, 0, 0, 1.324580516, 2.545615266, 3.678710841, 4.711533017, 5.660403917, 6.521349952, 7.301239649, 8, 8, 8, 8], degree=3))
            Line((651.163880062, 289.835452458), (645.213904094, 289.835452458))
            add(Edge.make_bspline(
                [(645.213904094, 289.835452458), (645.12229736, 290.069847279), (644.935171241, 290.548648246), (644.7595281, 291.319414791), (644.64846922, 292.142514735), (644.635117598, 292.70994511), (644.628232479, 293.002555653)],
                knots=[0, 0, 0, 0, 0.930410518, 1.900560147, 2.917368081, 4, 4, 4, 4], degree=3))
            Line((644.628232479, 293.002555653), (644.605850124, 294.002300831))
            Line((644.605850124, 294.002300831), (644.579737377, 295.266903874))
            add(Edge.make_bspline(
                [(644.579737377, 295.266903874), (644.573694669, 295.477395004), (644.562357007, 295.872330118), (644.469348432, 296.426164013), (644.30178735, 296.894645884), (644.073222546, 297.287223005), (643.766741442, 297.590613479), (643.39104803, 297.804152917), (642.950456912, 297.93396284), (642.634664848, 297.946292392), (642.468335247, 297.952786442)],
                knots=[0, 0, 0, 0, 1.295300309, 2.430314163, 3.439929415, 4.342995669, 5.203512789, 6.060756153, 6.978588463, 8, 8, 8, 8], degree=3))
            Line((642.468335247, 297.952786442), (642.106487178, 297.952786442))
            Line((642.106487178, 297.952786442), (642.106487178, 289.835452458))
            Line((642.106487178, 289.835452458), (636.376604366, 289.835452458))
        make_face()
        with BuildLine():
            Line((642.106487178, 299.862747379), (642.617550945, 299.862747379))
            add(Edge.make_bspline(
                [(642.617550945, 299.862747379), (642.722054451, 299.865172716), (642.925280724, 299.869889229), (643.220054897, 299.898289891), (643.494111408, 299.951809873), (643.749840966, 300.021017819), (643.984372137, 300.114851792), (644.200147241, 300.225818296), (644.391160406, 300.362685327), (644.565327067, 300.516342321), (644.718148635, 300.691986294), (644.850351299, 300.889034217), (644.961199162, 301.106225057), (645.056078491, 301.342818683), (645.125883912, 301.600830857), (645.173262731, 301.879472914), (645.203404658, 302.177423605), (645.207875435, 302.383174491), (645.210173702, 302.488943669)],
                knots=[0, 0, 0, 0, 1.184986479, 2.304423995, 3.352332712, 4.347714965, 5.303263624, 6.211353909, 7.091434645, 7.960150225, 8.839440182, 9.723126897, 10.64371617, 11.599264829, 12.608232147, 13.667459739, 14.800924404, 16, 16, 16, 16], degree=3))
            add(Edge.make_bspline(
                [(645.210173702, 302.488943669), (645.207875435, 302.594712847), (645.203404658, 302.800463732), (645.173262731, 303.098414423), (645.125883912, 303.37705648), (645.056078491, 303.635068654), (644.961199162, 303.87166228), (644.850351299, 304.08885312), (644.718148635, 304.285901043), (644.565327067, 304.461545017), (644.391160406, 304.61520201), (644.200147241, 304.752069041), (643.984372137, 304.863035546), (643.749840966, 304.956869518), (643.494111408, 305.026077464), (643.220054897, 305.079597446), (642.925280724, 305.107998108), (642.722054451, 305.112714621), (642.617550945, 305.115139958)],
                knots=[0, 0, 0, 0, 1.199075596, 2.332540261, 3.391767853, 4.400735171, 5.35628383, 6.276873103, 7.160559818, 8.039849775, 8.908565355, 9.788646091, 10.696736376, 11.652285035, 12.647667288, 13.695576005, 14.815013521, 16, 16, 16, 16], degree=3))
            Line((642.617550945, 305.115139958), (642.106487178, 305.115139958))
            Line((642.106487178, 305.115139958), (642.106487178, 299.862747379))
        make_face(mode=Mode.SUBTRACT)
    extrude(amount=BOSS_EXTRUDE4_DEPTH)

    # Sketch18 → Cut-Extrude10 (cut, two sides: drawn at the far end of the back side and taken through both)
    with BuildSketch(Plane.XY.offset(-CUT_EXTRUDE10_DEPTH_BACK)):
        with Locations((335, 405)):
            Rectangle(SKETCH18_W, SKETCH18_H)
    extrude(amount=CUT_EXTRUDE10_DEPTH + CUT_EXTRUDE10_DEPTH_BACK, mode=Mode.SUBTRACT)

    # Sketch19 → Cut-Extrude11 (cut, two sides: drawn at the far end of the back side and taken through both)
    with BuildSketch(Plane(origin=(0, 0, -120), x_dir=(-1, 0, 0), z_dir=(0, 0, -1)).offset(-CUT_EXTRUDE11_DEPTH_BACK)):
        with Locations((-559, 140)):
            Rectangle(SKETCH19_W, SKETCH19_H)
        with Locations((-169, 140)):
            Rectangle(SKETCH19_W_2, SKETCH19_H)
    extrude(amount=CUT_EXTRUDE11_DEPTH + CUT_EXTRUDE11_DEPTH_BACK, mode=Mode.SUBTRACT)

    # Sketch20 → Cut-Extrude12 (cut, two sides: drawn at the far end of the back side and taken through both)
    with BuildSketch(Plane.XY.offset(-100).offset(-CUT_EXTRUDE12_DEPTH_BACK)):
        with Locations((393, 210)):
            Rectangle(SKETCH20_W, SKETCH20_H)
    extrude(amount=CUT_EXTRUDE12_DEPTH + CUT_EXTRUDE12_DEPTH_BACK, mode=Mode.SUBTRACT)


with BuildPart() as body_2:
    # Sketch11 → Boss-Extrude3 (new body)
    with BuildSketch(Plane.XY.offset(-100)):
        with Locations((255, 60)):
            Rectangle(SKETCH11_W, SKETCH11_H)
    extrude(amount=BOSS_EXTRUDE3_DEPTH)


with BuildPart() as body_3:
    # Sketch11 → Boss-Extrude3 2 (new body)
    with BuildSketch(Plane.XY.offset(-100)):
        with Locations((415, 60)):
            Rectangle(SKETCH11_W, SKETCH11_H)
    extrude(amount=BOSS_EXTRUDE3_2_DEPTH)


with BuildPart() as body_4:
    # Sketch11 → Boss-Extrude3 3 (new body)
    with BuildSketch(Plane.XY.offset(-100)):
        Polygon((25, 198.45686471), (325, 145.558770497), (325, 122.01775856), (345, 122.01775856), (345, 145.558770497), (645, 198.45686471), align=None)
    extrude(amount=BOSS_EXTRUDE3_3_DEPTH)

    # Sketch15 → Cut-Extrude7 (cut)
    with BuildSketch(Plane(origin=(345, 0, 0), x_dir=(0, 0, -1), z_dir=(1, 0, 0))):
        with Locations((35, 133.231921672)):
            Rectangle(SKETCH15_W, SKETCH15_H)
        with Locations((85, 130.506698154)):
            Rectangle(SKETCH15_W, SKETCH15_H_2)
    extrude(amount=-CUT_EXTRUDE7_DEPTH, mode=Mode.SUBTRACT)

    # Shell1
    shell1_openings = [body_4.faces().sort_by_distance(p)[0] for p in [
        (335, 198.45686471, -61),
    ]]
    offset(amount=SHELL1_T, openings=shell1_openings, kind=Kind.INTERSECTION)

    # Sketch16 → Cut-Extrude8 (cut)
    with BuildSketch(Plane.XZ.offset(-122.01775856)):
        with Locations((335, -60)):
            Rectangle(SKETCH16_W, SKETCH16_H)
    extrude(amount=-CUT_EXTRUDE8_DEPTH, mode=Mode.SUBTRACT)


solid = part.part
